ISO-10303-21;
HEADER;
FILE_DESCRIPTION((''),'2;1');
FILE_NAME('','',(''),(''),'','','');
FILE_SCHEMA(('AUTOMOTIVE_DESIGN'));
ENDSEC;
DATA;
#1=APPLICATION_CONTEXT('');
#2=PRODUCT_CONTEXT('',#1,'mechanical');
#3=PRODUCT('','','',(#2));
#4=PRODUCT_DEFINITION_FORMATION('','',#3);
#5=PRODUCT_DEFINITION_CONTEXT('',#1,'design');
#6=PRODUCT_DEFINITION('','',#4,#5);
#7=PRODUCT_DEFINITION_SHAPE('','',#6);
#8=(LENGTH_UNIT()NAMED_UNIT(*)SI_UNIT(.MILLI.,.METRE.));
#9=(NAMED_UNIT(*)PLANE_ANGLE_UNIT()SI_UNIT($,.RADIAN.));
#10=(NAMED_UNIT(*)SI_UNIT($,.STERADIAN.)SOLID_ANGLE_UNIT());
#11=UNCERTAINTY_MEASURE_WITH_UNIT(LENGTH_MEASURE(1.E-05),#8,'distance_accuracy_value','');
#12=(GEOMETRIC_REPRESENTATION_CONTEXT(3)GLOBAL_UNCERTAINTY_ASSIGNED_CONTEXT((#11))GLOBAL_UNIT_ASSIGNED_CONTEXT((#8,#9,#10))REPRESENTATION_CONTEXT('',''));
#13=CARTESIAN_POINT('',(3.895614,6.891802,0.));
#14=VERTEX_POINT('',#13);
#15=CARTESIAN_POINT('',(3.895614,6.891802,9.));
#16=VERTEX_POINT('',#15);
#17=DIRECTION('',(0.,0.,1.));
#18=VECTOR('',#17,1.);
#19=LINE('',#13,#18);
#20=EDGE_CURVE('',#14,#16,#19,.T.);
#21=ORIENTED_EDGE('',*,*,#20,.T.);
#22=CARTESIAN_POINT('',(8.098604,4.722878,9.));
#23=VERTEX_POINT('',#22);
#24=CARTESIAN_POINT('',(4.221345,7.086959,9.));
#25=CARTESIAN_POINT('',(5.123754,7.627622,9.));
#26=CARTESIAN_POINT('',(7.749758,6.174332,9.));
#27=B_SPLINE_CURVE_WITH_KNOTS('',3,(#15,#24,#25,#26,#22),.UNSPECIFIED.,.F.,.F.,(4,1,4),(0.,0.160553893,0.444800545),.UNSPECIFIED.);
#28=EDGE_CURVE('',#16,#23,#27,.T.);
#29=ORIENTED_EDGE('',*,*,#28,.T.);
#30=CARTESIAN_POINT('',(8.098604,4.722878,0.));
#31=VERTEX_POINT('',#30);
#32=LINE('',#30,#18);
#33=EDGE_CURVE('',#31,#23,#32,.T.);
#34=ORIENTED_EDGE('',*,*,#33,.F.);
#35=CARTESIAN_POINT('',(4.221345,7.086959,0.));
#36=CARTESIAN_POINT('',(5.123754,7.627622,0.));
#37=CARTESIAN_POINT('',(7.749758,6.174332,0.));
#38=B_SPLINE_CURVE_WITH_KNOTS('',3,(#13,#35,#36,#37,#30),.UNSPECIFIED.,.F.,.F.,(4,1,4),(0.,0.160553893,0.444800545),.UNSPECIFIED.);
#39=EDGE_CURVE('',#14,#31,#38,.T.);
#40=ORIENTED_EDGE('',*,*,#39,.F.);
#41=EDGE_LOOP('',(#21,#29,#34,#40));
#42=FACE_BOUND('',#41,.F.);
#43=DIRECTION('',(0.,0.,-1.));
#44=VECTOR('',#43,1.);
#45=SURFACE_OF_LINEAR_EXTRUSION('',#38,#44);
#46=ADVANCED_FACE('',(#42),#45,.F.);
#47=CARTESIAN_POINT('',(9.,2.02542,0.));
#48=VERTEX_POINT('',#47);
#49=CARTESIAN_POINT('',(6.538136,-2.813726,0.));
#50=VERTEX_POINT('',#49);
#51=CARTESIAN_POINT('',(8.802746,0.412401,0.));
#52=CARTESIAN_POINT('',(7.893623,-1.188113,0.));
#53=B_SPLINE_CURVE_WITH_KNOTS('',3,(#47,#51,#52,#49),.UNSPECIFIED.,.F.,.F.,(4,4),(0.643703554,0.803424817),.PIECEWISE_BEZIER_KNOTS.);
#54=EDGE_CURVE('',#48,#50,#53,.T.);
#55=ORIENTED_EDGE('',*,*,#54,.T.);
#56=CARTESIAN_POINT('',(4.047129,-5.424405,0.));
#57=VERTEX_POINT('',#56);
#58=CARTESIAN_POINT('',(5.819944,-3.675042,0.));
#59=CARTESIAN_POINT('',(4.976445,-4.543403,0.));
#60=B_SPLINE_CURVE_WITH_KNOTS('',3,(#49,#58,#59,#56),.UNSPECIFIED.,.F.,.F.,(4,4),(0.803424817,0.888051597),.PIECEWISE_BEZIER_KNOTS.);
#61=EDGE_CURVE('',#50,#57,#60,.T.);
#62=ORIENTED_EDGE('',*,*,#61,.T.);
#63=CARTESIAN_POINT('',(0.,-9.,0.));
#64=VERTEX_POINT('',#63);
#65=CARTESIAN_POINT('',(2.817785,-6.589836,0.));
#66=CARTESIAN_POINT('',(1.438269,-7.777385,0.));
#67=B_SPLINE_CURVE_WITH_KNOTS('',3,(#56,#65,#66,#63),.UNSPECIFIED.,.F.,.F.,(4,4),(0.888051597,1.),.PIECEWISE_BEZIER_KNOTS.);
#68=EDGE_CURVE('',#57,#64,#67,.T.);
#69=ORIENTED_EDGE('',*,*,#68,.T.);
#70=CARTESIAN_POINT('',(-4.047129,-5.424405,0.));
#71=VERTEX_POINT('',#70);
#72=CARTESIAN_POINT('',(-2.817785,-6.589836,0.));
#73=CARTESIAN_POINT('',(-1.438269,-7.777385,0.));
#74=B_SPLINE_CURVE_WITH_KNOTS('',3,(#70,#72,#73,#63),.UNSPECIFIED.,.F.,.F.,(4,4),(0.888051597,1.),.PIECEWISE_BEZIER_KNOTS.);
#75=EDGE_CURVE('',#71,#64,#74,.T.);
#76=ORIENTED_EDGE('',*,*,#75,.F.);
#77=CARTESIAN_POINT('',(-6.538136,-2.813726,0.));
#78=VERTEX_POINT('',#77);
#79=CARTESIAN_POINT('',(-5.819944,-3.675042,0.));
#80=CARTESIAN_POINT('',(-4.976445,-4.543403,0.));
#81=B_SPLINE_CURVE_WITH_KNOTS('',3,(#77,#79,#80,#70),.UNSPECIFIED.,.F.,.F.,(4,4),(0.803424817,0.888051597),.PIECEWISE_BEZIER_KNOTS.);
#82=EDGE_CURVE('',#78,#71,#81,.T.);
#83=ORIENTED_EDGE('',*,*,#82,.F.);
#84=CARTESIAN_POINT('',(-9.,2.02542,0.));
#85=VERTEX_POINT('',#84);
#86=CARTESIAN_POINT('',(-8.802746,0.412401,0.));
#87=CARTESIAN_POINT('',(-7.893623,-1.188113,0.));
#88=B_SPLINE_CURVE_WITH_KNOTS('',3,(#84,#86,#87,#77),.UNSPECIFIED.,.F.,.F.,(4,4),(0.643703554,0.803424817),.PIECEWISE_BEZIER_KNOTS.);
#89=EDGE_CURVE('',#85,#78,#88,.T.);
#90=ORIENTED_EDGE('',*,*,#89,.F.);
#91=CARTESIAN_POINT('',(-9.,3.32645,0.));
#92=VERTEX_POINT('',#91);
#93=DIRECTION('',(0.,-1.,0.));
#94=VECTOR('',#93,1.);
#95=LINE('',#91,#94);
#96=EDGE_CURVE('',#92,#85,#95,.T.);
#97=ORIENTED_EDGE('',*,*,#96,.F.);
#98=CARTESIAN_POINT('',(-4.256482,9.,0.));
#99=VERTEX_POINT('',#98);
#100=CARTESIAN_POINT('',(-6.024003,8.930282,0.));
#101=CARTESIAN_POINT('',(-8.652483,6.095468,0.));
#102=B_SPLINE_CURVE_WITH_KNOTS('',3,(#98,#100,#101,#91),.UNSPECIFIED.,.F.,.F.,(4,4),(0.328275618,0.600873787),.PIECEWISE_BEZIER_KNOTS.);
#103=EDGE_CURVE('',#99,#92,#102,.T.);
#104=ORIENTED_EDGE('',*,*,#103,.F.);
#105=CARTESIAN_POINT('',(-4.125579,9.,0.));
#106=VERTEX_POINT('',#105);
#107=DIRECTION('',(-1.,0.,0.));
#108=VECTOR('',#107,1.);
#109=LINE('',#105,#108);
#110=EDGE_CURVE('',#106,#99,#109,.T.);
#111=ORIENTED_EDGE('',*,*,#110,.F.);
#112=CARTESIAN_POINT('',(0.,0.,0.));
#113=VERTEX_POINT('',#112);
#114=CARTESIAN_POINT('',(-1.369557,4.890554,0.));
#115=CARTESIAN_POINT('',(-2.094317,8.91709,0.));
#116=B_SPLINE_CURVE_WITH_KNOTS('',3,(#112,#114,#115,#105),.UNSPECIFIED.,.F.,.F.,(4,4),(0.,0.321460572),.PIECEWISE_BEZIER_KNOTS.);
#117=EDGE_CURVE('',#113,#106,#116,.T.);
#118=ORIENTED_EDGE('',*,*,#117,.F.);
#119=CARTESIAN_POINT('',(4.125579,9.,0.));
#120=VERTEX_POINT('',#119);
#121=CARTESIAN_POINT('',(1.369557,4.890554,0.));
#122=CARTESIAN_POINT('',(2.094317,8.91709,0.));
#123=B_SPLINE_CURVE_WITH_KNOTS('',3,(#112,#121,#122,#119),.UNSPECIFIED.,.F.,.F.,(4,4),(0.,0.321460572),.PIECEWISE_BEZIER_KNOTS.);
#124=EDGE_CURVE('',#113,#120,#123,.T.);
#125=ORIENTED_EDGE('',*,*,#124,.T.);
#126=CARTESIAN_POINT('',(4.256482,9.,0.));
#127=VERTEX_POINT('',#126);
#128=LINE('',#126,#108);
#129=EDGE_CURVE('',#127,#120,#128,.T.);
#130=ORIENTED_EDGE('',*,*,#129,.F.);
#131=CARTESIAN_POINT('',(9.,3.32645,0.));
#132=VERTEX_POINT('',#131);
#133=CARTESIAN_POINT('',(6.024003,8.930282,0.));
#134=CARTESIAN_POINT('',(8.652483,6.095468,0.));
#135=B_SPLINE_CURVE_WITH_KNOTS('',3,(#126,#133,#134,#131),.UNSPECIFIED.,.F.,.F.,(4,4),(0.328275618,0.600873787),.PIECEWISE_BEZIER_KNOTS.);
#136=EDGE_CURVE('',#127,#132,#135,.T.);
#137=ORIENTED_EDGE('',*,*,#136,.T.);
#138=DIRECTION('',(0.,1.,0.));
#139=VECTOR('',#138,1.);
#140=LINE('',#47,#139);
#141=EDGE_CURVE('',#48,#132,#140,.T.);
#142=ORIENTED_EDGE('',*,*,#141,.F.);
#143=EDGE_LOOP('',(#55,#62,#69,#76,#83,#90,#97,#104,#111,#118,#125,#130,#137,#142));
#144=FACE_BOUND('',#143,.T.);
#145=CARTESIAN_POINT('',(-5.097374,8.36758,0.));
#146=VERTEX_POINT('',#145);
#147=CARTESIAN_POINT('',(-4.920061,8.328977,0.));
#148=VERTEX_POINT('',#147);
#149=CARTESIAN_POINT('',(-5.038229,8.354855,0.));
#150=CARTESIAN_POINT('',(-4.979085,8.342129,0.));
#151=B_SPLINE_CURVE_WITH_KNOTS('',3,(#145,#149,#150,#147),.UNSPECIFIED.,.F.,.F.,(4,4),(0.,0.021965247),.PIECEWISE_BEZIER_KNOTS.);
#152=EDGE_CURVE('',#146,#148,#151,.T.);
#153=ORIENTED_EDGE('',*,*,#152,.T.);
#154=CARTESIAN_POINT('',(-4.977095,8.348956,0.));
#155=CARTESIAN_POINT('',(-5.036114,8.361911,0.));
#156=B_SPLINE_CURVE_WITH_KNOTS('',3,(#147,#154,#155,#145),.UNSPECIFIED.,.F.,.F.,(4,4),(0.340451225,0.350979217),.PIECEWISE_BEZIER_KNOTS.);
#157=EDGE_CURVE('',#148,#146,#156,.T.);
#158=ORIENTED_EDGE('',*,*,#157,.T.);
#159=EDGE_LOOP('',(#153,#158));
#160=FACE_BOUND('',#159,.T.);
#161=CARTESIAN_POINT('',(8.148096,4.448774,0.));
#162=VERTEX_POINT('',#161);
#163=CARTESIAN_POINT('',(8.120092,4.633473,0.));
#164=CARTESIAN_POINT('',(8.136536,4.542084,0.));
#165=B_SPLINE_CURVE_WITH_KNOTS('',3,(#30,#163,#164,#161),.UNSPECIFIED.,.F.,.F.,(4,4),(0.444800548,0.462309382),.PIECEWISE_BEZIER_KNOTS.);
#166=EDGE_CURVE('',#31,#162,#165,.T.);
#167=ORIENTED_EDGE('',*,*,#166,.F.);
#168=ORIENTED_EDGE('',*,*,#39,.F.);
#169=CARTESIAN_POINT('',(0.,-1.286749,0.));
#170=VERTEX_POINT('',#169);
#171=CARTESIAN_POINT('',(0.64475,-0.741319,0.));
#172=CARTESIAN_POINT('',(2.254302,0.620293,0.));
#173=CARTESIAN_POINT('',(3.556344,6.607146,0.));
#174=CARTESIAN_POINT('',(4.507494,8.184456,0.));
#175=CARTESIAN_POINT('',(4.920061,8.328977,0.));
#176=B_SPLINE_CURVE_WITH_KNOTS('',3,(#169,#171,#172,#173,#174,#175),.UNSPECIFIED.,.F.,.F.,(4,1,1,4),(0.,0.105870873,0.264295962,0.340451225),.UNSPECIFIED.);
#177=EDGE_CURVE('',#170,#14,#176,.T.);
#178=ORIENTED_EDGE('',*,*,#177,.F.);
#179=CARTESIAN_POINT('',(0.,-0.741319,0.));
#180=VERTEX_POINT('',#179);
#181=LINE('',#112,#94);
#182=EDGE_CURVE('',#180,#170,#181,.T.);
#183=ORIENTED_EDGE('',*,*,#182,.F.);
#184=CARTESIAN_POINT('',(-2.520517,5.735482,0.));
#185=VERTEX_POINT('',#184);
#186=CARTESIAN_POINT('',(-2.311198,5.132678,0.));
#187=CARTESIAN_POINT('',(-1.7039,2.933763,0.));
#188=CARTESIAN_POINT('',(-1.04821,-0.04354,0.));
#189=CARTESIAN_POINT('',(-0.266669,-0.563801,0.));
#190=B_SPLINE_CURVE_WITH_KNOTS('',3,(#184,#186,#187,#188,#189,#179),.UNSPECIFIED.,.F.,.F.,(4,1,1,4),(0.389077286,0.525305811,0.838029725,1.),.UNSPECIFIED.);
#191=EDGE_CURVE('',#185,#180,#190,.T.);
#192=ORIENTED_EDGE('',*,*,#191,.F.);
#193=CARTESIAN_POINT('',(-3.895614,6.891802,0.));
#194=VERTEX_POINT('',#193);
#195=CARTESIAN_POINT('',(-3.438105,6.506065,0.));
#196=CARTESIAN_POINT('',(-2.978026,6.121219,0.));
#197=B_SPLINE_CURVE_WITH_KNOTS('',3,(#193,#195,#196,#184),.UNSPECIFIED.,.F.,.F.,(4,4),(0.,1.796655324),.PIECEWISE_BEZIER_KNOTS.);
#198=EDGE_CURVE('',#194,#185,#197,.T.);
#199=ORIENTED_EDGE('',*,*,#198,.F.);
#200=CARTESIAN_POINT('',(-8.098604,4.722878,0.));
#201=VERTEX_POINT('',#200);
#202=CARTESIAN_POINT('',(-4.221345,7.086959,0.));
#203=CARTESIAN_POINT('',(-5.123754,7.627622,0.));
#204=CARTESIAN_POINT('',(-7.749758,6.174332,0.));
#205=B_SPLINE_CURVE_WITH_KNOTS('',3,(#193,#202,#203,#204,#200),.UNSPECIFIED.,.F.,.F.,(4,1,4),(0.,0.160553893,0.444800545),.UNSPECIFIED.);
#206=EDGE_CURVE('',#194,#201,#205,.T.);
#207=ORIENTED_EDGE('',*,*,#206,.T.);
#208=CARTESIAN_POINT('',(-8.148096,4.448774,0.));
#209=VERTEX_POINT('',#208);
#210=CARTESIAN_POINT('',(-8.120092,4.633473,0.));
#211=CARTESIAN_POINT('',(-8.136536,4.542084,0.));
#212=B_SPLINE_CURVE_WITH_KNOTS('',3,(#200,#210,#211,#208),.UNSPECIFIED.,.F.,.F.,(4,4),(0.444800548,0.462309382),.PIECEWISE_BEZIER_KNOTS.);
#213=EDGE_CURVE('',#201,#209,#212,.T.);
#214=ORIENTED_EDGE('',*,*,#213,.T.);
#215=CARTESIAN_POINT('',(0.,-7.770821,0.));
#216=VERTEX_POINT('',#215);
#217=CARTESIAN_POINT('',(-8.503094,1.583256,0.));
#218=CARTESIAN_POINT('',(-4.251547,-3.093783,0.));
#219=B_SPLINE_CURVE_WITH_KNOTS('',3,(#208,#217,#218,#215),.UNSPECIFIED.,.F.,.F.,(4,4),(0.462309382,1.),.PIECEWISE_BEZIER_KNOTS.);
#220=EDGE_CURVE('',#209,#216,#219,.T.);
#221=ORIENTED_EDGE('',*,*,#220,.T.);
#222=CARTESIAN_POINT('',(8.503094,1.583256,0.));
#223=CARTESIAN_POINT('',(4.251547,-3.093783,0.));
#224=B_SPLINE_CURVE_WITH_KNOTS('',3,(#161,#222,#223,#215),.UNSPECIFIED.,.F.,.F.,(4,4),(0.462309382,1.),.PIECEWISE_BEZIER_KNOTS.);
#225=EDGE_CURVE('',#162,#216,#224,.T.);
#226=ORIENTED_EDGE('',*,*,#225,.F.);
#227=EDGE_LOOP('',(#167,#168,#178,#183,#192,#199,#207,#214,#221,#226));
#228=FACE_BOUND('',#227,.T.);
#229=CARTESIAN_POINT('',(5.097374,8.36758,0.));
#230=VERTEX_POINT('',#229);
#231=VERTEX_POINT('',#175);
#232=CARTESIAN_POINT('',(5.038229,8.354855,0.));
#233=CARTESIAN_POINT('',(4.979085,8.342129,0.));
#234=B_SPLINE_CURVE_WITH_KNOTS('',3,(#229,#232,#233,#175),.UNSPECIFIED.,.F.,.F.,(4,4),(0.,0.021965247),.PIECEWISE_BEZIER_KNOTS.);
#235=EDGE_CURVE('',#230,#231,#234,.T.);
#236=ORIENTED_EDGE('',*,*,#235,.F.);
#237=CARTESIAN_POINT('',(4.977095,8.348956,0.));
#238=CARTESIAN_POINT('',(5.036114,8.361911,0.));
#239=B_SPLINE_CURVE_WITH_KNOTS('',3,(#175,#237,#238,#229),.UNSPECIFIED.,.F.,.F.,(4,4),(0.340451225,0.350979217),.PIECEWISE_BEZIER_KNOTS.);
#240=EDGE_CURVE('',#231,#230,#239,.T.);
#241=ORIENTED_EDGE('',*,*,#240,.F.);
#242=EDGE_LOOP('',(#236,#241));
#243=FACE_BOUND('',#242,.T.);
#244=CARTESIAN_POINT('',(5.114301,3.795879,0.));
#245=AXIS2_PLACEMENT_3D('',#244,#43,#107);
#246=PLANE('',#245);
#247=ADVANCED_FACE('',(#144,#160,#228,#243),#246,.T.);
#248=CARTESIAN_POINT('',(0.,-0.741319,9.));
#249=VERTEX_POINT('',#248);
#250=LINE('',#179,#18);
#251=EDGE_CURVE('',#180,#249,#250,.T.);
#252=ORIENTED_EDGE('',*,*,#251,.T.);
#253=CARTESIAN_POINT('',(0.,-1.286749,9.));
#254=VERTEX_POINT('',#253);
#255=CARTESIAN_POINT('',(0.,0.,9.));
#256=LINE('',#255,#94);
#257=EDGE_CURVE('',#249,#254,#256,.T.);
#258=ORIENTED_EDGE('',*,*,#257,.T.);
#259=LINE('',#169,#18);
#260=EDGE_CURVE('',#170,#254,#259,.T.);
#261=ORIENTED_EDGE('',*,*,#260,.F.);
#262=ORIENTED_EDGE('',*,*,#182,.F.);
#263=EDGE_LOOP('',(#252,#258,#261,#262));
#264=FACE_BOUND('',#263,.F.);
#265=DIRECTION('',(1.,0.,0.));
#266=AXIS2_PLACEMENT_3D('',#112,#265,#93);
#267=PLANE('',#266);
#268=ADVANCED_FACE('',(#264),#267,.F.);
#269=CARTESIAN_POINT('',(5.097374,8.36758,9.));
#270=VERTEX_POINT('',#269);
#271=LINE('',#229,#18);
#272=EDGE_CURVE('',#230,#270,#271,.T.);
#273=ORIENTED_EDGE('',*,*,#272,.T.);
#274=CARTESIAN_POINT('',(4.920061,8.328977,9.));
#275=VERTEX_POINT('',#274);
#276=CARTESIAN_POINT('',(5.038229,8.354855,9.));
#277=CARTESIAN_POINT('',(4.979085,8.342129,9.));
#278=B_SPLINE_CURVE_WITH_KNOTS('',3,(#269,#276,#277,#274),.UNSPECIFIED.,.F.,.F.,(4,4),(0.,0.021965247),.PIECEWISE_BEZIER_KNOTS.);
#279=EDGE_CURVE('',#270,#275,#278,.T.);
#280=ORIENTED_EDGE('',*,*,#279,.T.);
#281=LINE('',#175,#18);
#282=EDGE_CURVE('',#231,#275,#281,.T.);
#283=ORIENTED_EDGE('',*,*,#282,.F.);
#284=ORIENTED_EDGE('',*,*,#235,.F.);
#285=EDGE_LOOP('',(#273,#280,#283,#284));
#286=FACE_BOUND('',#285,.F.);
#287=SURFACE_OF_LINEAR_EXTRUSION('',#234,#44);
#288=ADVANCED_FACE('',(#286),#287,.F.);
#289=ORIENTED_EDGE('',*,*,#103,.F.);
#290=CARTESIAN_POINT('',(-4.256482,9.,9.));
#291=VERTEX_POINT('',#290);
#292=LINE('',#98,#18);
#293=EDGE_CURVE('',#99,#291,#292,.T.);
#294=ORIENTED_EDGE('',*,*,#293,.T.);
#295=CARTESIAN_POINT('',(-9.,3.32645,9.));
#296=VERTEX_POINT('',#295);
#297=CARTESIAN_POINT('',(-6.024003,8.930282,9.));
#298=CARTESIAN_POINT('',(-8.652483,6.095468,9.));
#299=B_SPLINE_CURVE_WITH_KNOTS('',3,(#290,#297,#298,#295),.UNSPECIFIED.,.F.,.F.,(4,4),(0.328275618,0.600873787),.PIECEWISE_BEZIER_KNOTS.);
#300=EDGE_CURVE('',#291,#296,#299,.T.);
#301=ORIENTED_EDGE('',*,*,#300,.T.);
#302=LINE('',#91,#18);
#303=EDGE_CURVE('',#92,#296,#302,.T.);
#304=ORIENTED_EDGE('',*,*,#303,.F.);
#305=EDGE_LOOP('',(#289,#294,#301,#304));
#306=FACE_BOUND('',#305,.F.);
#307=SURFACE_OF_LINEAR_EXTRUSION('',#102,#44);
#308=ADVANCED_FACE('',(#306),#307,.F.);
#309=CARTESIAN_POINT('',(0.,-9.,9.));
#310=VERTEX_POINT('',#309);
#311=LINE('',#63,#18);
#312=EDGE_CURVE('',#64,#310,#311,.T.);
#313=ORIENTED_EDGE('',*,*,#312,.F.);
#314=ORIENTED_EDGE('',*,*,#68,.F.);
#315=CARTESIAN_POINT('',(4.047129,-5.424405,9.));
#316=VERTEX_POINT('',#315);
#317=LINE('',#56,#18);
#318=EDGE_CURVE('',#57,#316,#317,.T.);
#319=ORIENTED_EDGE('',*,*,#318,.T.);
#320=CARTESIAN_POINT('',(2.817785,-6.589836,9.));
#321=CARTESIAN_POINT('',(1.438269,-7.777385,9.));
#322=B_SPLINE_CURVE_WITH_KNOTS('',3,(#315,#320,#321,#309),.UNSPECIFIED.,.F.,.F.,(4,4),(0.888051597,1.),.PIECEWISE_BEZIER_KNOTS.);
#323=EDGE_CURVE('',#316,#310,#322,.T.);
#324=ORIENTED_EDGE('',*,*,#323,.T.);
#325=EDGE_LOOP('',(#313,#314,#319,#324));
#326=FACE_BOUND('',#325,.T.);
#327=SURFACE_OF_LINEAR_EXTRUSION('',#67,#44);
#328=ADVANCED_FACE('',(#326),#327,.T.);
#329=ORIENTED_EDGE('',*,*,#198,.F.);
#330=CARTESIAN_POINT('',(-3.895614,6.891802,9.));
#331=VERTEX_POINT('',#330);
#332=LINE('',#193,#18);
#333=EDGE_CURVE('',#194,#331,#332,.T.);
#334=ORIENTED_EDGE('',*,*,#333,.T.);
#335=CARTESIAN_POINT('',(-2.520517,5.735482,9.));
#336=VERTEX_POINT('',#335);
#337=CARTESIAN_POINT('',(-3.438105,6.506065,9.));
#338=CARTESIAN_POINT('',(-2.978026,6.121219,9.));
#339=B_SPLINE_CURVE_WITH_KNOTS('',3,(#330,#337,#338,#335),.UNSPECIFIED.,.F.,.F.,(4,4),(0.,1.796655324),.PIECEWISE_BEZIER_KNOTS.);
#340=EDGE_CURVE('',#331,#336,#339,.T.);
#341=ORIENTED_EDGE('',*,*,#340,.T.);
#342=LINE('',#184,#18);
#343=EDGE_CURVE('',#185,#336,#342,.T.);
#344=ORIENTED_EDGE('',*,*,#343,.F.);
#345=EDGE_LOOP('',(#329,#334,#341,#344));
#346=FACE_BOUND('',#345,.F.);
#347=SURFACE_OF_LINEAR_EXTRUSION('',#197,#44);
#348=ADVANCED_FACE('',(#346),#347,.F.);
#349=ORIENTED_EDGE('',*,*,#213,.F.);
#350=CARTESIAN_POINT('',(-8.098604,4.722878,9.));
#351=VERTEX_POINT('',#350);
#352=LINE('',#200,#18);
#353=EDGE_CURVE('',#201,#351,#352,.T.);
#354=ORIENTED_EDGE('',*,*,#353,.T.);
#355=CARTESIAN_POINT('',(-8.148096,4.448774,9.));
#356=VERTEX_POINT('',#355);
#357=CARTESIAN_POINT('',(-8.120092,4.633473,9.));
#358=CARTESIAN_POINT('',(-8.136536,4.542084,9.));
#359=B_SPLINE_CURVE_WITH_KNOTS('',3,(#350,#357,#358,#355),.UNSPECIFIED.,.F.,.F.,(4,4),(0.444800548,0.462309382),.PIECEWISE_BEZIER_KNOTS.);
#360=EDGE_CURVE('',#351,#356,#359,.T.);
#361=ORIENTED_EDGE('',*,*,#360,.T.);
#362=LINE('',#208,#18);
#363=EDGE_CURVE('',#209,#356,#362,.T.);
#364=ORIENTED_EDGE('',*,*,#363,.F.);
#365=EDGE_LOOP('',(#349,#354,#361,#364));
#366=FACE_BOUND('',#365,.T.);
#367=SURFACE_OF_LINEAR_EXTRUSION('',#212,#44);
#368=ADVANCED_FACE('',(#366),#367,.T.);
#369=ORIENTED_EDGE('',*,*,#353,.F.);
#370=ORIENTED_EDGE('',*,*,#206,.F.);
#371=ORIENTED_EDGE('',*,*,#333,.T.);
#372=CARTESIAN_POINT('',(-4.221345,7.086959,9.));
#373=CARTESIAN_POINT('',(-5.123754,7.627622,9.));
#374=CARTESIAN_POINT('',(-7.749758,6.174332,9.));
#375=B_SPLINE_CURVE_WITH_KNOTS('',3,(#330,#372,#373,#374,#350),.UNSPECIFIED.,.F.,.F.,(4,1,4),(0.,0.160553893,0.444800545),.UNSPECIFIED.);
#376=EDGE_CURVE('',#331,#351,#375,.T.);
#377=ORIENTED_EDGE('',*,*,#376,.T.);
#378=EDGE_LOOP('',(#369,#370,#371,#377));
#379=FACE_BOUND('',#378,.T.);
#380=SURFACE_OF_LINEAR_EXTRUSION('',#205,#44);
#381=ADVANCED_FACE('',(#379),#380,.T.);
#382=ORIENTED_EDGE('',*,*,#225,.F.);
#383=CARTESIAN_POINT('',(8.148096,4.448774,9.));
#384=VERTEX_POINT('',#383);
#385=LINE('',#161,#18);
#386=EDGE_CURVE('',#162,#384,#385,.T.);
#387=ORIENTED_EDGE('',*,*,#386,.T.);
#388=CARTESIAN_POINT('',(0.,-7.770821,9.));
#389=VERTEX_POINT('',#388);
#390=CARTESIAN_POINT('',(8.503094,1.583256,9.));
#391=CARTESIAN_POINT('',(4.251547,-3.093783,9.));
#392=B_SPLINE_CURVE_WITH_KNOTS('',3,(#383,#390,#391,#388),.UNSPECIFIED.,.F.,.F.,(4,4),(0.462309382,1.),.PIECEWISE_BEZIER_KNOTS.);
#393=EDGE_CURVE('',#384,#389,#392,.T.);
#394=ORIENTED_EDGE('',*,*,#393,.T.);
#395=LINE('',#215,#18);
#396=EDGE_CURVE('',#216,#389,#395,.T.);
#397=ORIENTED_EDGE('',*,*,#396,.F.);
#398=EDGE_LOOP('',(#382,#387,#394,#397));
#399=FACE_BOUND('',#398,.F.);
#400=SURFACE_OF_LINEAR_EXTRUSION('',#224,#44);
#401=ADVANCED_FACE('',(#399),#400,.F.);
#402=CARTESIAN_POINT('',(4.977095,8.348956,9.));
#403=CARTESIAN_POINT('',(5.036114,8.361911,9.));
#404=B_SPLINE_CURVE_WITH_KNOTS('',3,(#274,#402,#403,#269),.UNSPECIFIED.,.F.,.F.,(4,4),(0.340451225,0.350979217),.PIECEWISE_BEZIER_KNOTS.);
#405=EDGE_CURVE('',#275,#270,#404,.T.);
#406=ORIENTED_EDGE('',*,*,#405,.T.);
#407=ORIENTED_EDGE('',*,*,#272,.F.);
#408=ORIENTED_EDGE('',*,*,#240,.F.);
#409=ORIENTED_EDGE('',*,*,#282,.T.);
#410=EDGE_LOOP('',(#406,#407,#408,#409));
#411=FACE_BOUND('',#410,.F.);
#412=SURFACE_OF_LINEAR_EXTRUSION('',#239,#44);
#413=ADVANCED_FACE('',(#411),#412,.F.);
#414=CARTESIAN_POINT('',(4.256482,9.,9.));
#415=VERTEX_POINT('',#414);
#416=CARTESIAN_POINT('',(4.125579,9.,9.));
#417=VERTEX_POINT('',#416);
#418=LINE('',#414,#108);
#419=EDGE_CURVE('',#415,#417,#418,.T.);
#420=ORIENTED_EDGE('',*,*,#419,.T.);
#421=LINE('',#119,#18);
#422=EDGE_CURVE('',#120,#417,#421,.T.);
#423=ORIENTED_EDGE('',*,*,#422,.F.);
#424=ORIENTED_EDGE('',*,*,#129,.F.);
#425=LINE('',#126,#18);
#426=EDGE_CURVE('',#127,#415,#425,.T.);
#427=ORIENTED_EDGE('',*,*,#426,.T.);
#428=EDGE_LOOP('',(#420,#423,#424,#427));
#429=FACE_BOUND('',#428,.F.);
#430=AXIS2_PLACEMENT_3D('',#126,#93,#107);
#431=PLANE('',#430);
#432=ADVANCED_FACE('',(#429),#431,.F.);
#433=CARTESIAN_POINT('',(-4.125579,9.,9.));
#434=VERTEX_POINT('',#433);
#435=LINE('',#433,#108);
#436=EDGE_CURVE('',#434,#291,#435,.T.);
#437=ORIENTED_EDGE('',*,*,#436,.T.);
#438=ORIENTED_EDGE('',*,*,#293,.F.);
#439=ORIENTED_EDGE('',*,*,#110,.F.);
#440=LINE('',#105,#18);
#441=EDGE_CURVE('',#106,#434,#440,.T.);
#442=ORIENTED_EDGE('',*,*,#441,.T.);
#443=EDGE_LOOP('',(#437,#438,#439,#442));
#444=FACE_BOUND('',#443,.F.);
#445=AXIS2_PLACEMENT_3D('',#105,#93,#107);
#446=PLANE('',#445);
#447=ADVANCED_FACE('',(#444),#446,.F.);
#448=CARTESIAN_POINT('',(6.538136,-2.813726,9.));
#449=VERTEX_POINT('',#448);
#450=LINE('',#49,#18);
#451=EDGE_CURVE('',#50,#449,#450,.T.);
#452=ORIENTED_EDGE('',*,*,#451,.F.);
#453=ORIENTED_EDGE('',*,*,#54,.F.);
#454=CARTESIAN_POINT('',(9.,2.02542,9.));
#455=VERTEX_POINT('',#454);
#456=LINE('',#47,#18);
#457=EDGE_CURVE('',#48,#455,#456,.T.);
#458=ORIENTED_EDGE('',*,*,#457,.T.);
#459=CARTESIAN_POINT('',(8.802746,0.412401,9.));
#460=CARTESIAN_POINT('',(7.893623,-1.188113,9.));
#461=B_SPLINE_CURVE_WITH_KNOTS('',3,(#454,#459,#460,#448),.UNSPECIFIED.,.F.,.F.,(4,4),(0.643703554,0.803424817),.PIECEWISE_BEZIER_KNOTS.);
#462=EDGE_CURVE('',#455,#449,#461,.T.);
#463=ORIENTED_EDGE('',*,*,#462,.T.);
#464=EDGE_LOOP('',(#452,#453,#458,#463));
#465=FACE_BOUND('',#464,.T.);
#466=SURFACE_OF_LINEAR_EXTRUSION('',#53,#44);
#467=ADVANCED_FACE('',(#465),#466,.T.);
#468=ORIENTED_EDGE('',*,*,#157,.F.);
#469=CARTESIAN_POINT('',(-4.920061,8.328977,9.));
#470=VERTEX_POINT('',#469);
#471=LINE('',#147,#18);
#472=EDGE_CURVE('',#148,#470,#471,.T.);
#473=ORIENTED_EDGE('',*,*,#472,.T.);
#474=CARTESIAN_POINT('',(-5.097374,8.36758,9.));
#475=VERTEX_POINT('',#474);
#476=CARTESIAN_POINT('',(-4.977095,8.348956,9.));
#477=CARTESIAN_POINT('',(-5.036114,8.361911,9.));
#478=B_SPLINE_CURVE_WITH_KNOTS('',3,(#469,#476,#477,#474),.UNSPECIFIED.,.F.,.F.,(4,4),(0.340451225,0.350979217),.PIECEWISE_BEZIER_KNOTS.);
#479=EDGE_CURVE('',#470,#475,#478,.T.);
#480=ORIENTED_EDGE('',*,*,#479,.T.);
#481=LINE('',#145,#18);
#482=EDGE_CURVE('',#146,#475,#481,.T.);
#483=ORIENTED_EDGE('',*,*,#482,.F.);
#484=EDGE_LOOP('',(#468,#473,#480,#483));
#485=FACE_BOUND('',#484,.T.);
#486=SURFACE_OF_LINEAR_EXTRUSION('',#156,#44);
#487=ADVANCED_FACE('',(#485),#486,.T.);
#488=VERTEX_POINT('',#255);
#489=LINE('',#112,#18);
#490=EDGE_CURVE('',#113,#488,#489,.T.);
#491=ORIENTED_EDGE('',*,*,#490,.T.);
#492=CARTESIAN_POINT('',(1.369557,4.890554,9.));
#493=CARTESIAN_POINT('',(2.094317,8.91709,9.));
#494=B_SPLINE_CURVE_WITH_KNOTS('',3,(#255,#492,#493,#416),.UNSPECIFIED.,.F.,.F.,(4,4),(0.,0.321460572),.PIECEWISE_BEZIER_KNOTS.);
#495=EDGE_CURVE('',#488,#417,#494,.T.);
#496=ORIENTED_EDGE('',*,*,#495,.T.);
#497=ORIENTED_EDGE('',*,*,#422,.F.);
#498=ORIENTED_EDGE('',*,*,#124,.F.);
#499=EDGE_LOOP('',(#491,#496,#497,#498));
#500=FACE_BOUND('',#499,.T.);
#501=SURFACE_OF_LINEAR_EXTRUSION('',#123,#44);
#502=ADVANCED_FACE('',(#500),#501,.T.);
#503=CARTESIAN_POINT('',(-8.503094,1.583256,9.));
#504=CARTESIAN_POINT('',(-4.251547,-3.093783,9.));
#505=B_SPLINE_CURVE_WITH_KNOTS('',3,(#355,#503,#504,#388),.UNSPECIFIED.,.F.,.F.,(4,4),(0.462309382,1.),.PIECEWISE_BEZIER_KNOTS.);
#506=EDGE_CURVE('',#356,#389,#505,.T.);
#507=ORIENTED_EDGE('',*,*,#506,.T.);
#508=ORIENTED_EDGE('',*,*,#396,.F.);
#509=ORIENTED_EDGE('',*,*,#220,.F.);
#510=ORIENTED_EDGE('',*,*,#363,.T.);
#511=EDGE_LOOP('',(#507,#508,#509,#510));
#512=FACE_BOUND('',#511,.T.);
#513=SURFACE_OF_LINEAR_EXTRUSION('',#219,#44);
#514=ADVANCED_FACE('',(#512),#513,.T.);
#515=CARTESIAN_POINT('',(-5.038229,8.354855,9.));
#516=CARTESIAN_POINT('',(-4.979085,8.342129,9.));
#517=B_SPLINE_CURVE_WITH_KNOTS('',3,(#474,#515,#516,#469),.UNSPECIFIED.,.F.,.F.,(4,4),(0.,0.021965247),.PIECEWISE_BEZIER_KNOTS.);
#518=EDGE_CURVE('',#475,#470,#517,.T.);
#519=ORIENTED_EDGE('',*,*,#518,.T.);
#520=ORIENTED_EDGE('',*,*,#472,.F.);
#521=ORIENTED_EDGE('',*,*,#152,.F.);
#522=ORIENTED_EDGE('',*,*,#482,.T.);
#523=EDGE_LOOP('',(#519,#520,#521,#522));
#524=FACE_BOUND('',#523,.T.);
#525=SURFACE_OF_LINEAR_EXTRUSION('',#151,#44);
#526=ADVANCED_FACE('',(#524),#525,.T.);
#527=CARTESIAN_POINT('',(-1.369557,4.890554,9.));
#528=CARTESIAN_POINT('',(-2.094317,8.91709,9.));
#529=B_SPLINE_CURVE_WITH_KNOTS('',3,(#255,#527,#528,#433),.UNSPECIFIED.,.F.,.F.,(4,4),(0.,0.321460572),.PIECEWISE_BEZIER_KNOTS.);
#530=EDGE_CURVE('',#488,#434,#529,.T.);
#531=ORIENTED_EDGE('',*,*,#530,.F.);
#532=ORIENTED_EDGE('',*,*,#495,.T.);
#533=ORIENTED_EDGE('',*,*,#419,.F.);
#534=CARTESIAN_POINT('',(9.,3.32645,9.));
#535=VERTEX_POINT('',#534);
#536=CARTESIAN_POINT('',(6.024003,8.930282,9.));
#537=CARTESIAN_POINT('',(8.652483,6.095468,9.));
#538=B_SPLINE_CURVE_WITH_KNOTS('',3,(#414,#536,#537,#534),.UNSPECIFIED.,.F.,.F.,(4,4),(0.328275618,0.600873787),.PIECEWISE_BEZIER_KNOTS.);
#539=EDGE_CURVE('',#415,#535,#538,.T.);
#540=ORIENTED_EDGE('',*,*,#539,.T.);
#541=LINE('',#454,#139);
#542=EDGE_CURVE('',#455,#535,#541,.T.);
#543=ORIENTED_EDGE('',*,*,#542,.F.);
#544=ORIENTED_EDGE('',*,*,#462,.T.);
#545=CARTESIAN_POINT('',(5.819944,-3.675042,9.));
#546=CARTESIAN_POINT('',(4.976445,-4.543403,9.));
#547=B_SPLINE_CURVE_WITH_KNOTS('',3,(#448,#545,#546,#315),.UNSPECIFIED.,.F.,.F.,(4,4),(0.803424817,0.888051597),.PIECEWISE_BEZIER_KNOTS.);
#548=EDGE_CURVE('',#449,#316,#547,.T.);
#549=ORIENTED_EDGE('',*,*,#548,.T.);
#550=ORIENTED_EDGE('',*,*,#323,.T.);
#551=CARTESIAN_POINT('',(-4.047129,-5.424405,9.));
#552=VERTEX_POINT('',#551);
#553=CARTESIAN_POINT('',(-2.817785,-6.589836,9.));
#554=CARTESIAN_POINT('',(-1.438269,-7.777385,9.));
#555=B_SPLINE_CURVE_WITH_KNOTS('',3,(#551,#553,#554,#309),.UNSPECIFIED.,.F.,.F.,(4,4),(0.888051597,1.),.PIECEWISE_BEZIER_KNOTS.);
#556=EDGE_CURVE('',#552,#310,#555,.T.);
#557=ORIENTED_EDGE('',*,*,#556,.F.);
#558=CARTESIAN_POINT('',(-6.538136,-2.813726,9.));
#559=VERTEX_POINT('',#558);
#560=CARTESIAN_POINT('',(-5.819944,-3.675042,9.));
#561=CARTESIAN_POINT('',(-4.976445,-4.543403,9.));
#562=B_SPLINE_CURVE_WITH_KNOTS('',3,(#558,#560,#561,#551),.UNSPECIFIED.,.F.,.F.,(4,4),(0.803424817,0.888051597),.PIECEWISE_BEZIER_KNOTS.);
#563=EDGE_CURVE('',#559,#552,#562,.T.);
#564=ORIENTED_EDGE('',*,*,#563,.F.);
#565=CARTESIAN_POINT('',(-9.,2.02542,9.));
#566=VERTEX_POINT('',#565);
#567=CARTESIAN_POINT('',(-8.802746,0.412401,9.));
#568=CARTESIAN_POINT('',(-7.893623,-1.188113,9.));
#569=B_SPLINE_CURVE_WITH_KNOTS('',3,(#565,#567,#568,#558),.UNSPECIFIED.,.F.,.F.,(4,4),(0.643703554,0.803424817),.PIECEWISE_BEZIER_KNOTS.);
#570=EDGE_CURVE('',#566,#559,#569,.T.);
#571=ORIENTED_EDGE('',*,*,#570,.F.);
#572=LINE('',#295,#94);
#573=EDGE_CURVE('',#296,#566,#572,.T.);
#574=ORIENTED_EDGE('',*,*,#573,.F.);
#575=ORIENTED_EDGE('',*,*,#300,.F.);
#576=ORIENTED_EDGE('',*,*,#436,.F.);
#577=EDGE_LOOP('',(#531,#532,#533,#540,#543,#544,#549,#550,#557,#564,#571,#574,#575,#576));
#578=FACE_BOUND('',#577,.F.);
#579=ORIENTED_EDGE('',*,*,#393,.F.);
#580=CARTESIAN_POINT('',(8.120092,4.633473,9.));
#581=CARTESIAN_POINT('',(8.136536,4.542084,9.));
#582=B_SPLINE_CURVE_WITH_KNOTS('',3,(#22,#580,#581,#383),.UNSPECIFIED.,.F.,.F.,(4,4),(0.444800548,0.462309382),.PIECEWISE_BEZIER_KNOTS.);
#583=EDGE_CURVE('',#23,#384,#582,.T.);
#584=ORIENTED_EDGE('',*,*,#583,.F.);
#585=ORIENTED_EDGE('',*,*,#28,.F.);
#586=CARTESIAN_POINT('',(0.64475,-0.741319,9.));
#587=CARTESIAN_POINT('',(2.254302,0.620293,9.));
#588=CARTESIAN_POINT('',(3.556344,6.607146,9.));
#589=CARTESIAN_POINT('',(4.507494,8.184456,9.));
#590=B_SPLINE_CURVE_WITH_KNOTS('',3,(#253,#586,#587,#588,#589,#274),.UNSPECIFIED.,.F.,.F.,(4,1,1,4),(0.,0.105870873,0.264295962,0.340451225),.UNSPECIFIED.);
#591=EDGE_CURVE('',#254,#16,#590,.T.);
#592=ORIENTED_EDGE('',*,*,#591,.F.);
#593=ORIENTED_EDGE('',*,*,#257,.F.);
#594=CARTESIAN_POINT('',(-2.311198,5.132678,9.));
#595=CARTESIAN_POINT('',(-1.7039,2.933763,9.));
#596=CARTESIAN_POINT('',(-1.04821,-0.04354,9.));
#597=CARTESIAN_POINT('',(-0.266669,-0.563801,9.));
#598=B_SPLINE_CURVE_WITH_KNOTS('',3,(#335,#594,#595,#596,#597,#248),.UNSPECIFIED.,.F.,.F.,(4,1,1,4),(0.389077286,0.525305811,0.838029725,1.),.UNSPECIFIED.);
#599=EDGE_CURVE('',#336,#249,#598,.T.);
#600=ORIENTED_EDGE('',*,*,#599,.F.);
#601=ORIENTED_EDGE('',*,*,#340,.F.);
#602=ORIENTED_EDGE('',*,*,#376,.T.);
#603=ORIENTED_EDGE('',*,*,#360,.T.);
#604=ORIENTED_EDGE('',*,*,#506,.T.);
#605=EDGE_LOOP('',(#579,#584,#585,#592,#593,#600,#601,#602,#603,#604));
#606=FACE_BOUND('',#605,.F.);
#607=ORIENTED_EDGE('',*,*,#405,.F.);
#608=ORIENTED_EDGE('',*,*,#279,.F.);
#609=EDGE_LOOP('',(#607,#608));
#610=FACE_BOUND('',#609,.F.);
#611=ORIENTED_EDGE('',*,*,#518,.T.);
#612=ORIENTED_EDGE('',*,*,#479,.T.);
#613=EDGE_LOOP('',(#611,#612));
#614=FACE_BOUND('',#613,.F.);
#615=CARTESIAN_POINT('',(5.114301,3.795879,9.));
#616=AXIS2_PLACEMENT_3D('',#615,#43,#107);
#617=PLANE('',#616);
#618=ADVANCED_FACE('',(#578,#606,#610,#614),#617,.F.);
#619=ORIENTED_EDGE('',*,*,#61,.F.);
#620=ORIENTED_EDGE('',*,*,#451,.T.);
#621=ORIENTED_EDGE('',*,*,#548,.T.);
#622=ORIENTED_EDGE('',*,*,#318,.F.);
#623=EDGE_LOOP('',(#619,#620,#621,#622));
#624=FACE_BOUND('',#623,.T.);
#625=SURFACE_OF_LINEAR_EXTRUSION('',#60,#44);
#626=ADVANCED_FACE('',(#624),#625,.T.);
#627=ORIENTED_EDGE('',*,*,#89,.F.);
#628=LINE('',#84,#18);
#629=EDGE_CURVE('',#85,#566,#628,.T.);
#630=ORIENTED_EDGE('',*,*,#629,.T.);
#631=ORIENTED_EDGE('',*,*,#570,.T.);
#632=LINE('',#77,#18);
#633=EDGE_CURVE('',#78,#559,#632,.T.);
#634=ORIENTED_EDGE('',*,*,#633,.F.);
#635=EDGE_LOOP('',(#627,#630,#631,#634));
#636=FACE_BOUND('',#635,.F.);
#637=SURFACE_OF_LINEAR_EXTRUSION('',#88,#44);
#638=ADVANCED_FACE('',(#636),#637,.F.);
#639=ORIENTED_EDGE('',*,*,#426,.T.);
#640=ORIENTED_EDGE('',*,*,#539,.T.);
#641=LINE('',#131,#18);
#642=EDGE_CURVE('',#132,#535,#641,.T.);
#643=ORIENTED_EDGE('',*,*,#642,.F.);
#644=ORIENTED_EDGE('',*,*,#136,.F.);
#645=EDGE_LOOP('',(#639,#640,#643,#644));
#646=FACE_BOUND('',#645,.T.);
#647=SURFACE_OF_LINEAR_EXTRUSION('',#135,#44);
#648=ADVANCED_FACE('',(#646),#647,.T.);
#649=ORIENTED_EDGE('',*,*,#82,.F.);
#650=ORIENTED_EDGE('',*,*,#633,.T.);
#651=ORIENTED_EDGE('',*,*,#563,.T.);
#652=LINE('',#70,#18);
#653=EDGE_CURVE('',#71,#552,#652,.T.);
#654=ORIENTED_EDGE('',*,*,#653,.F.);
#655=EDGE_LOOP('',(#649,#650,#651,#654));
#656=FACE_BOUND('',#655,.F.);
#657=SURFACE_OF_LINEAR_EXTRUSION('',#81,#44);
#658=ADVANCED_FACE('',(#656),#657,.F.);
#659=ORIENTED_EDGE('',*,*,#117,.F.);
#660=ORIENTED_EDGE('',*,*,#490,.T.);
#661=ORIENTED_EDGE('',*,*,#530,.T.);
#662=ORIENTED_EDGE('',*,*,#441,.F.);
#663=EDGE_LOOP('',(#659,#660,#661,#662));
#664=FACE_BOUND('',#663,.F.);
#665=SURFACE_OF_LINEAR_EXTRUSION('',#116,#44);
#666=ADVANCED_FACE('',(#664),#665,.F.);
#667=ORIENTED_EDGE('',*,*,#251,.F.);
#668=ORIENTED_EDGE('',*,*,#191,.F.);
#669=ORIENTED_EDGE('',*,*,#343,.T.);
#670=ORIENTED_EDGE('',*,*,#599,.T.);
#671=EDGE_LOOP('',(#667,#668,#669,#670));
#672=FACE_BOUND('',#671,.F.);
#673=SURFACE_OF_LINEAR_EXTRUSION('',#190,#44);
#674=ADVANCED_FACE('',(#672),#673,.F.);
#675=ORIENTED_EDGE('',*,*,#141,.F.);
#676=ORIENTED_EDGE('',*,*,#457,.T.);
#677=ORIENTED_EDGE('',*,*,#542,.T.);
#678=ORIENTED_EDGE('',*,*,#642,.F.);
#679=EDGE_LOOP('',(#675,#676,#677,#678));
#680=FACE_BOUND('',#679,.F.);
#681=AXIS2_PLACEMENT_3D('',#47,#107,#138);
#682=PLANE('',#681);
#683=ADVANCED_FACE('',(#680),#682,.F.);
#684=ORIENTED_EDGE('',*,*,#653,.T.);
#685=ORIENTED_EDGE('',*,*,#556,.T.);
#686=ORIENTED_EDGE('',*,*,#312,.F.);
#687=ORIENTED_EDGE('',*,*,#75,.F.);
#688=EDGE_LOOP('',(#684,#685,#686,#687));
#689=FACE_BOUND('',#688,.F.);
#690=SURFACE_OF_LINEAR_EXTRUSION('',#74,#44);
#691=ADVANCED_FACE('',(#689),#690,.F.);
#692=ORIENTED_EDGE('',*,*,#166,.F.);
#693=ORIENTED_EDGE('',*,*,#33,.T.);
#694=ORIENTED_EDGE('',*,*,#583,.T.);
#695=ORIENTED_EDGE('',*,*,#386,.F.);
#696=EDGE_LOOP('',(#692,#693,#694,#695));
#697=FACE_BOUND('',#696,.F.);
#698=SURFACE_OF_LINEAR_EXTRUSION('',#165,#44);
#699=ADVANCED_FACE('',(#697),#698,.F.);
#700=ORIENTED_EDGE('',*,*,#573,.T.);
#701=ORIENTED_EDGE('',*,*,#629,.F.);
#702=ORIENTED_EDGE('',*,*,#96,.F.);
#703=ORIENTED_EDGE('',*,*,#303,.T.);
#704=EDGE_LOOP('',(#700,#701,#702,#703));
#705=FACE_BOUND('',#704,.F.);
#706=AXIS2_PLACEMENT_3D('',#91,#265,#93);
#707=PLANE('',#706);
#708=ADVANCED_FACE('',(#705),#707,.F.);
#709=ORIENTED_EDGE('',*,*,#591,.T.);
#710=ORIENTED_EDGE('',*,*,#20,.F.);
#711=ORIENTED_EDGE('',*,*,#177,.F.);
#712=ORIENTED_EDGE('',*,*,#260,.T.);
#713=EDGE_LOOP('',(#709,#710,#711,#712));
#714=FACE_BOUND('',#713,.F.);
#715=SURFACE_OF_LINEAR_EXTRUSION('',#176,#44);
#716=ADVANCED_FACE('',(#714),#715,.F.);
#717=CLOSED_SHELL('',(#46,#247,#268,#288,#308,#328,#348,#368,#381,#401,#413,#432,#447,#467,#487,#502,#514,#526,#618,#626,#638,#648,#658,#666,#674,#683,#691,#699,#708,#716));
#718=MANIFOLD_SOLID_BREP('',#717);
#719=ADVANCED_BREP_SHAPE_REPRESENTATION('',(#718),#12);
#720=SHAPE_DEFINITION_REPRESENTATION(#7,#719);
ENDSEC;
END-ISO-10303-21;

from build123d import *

# Parameters (mm, degrees)
F1_DEPTH = 9
F2_DEPTH = 9


with BuildPart() as f1:
    # F0 (on Top) → F1 (new body)
    with BuildSketch(Plane.XY):
        with BuildLine():
            Line((0, -0.7413188443), (0, 0))
            add(Edge.make_bspline(
                [(0, 0), (-1.3695573068, 4.8905538115), (-2.0943165887, 8.9170896379), (-4.1255794242, 9)],
                knots=[0, 0, 0, 0, 0.3214605719, 0.3214605719, 0.3214605719, 0.3214605719], degree=3))
            Line((-4.1255794242, 9), (-4.2564818249, 9))
            add(Edge.make_bspline(
                [(-4.2564818249, 9), (-6.0240025483, 8.9302818998), (-8.6524833172, 6.0954684063), (-9, 3.3264504746)],
                knots=[0.3282756179, 0.3282756179, 0.3282756179, 0.3282756179, 0.6008737875, 0.6008737875, 0.6008737875, 0.6008737875], degree=3))
            Line((-9, 3.3264504746), (-9, 2.0254198861))
            add(Edge.make_bspline(
                [(-9, 2.0254198861), (-8.8027461578, 0.4124014883), (-7.8936230463, -1.1881125431), (-6.5381361873, -2.8137259055)],
                knots=[0.643703554, 0.643703554, 0.643703554, 0.643703554, 0.8034248169, 0.8034248169, 0.8034248169, 0.8034248169], degree=3))
            add(Edge.make_bspline(
                [(-7.0166951045, 7.2174789384), (-7.8491774617, 6.3542855977), (-9.3849521871, 3.9558156461), (-8.6108826872, 0.0318026512), (-6.9725173385, -2.272586495), (-6.5381361873, -2.8137259055)],
                knots=[0.4449683799, 0.4449683799, 0.4449683799, 0.4449683799, 0.5659455054, 0.7097029057, 0.7555145045, 0.7555145045, 0.7555145045, 0.7555145045], degree=3))
            add(Edge.make_bspline(
                [(-5.09737432, 8.3675803617), (-5.6442828481, 8.4181907516), (-6.369925564, 7.8881083584), (-7.0166951045, 7.2174789384)],
                knots=[0.3509792171, 0.3509792171, 0.3509792171, 0.3509792171, 0.4449683799, 0.4449683799, 0.4449683799, 0.4449683799], degree=3))
            add(Edge.make_bspline(
                [(-4.9200605163, 8.3289773014), (-4.9770953319, 8.3489564565), (-5.0361135483, 8.3619113487), (-5.09737432, 8.3675803617)],
                knots=[0.340451225, 0.340451225, 0.340451225, 0.340451225, 0.3509792171, 0.3509792171, 0.3509792171, 0.3509792171], degree=3))
            add(Edge.make_bspline(
                [(-4.9200605163, 8.3289773014), (-4.4286259103, 8.2194748549), (-3.4589288417, 7.9403428532), (-2.8035900144, 6.5506876616), (-2.5205168272, 5.7354818302)],
                knots=[0.0219652467, 0.0219652467, 0.0219652467, 0.0219652467, 0.2048477067, 0.3890772859, 0.3890772859, 0.3890772859, 0.3890772859], degree=3))
            add(Edge.make_bspline(
                [(-2.5205168272, 5.7354818302), (-2.3111984159, 5.1326780419), (-1.7039003011, 2.9337634373), (-1.0482096873, -0.0435395693), (-0.2666692877, -0.5638009877), (0, -0.7413188443)],
                knots=[0.3890772859, 0.3890772859, 0.3890772859, 0.3890772859, 0.5253058113, 0.8380297251, 1, 1, 1, 1], degree=3))
        make_face()
        with BuildLine():
            add(Edge.make_bspline(
                [(-3.8956142962, 6.891802419), (-3.4381051858, 6.5060647515), (-2.9780259376, 6.1212194977), (-2.5205168272, 5.7354818302)],
                knots=[0, 0, 0, 0, 1.796655324, 1.796655324, 1.796655324, 1.796655324], degree=3))
            add(Edge.make_bspline(
                [(-4.9200605163, 8.3289773014), (-4.4286259103, 8.2194748549), (-3.4589288417, 7.9403428532), (-2.8035900144, 6.5506876616), (-2.5205168272, 5.7354818302)],
                knots=[0.0219652467, 0.0219652467, 0.0219652467, 0.0219652467, 0.2048477067, 0.3890772859, 0.3890772859, 0.3890772859, 0.3890772859], degree=3))
            add(Edge.make_bspline(
                [(-3.8956142962, 6.891802419), (-4.1987079785, 7.6723908012), (-4.5074935852, 8.1844561238), (-4.9200605163, 8.3289773014)],
                knots=[0.2642959622, 0.2642959622, 0.2642959622, 0.2642959622, 0.340451225, 0.340451225, 0.340451225, 0.340451225], degree=3))
        make_face()
        with BuildLine():
            add(Edge.make_bspline(
                [(-3.8956142962, 6.891802419), (-4.2213452753, 7.0869586014), (-5.1237543979, 7.6276218222), (-7.7497584624, 6.1743324677), (-8.0986041576, 4.7228783369)],
                knots=[0, 0, 0, 0, 0.1605538932, 0.4448005452, 0.4448005452, 0.4448005452, 0.4448005452], degree=3))
            add(Edge.make_bspline(
                [(-3.8956142962, 6.891802419), (-4.1987079785, 7.6723908012), (-4.5074935852, 8.1844561238), (-4.9200605163, 8.3289773014)],
                knots=[0.2642959622, 0.2642959622, 0.2642959622, 0.2642959622, 0.340451225, 0.340451225, 0.340451225, 0.340451225], degree=3))
            add(Edge.make_bspline(
                [(-5.09737432, 8.3675803617), (-5.0382294946, 8.3548547711), (-4.9790846696, 8.3421291819), (-4.9200605163, 8.3289773014)],
                knots=[0, 0, 0, 0, 0.0219652467, 0.0219652467, 0.0219652467, 0.0219652467], degree=3))
            add(Edge.make_bspline(
                [(-5.09737432, 8.3675803617), (-5.6442828481, 8.4181907516), (-6.369925564, 7.8881083584), (-7.0166951045, 7.2174789384)],
                knots=[0.3509792171, 0.3509792171, 0.3509792171, 0.3509792171, 0.4449683799, 0.4449683799, 0.4449683799, 0.4449683799], degree=3))
            add(Edge.make_bspline(
                [(-7.0166951045, 7.2174789384), (-7.4551353354, 6.468842273), (-7.8935756458, 5.7202055859), (-8.0986041576, 4.7228783369)],
                knots=[0, 0, 0, 0, 0.2568105942, 0.2568105942, 0.2568105942, 0.2568105942], degree=3))
        make_face()
        with BuildLine():
            add(Edge.make_bspline(
                [(-6.5381361873, -2.8137259055), (-5.8199444715, -3.6750415592), (-4.976444676, -4.5434033696), (-4.0471287706, -5.424404607)],
                knots=[0.8034248169, 0.8034248169, 0.8034248169, 0.8034248169, 0.8880515967, 0.8880515967, 0.8880515967, 0.8880515967], degree=3))
            add(Edge.make_bspline(
                [(-8.1480962796, 4.4487735667), (-8.3487195408, 3.1674182287), (-7.9933424316, -0.4652337496), (-5.465399807, -3.6634353226), (-4.0471287706, -5.424404607)],
                knots=[0.2798373043, 0.2798373043, 0.2798373043, 0.2798373043, 0.5962275969, 0.9861211234, 0.9861211234, 0.9861211234, 0.9861211234], degree=3))
            add(Edge.make_bspline(
                [(-8.0986041689, 4.7228782896), (-8.1200921294, 4.6334725946), (-8.136536481, 4.5420835041), (-8.1480962796, 4.4487735667)],
                knots=[0.4448005483, 0.4448005483, 0.4448005483, 0.4448005483, 0.4623093822, 0.4623093822, 0.4623093822, 0.4623093822], degree=3))
            add(Edge.make_bspline(
                [(-7.0166951045, 7.2174789384), (-7.4551353354, 6.468842273), (-7.8935756458, 5.7202055859), (-8.0986041576, 4.7228783369)],
                knots=[0, 0, 0, 0, 0.2568105942, 0.2568105942, 0.2568105942, 0.2568105942], degree=3))
            add(Edge.make_bspline(
                [(-7.0166951045, 7.2174789384), (-7.8491774617, 6.3542855977), (-9.3849521871, 3.9558156461), (-8.6108826872, 0.0318026512), (-6.9725173385, -2.272586495), (-6.5381361873, -2.8137259055)],
                knots=[0.4449683799, 0.4449683799, 0.4449683799, 0.4449683799, 0.5659455054, 0.7097029057, 0.7555145045, 0.7555145045, 0.7555145045, 0.7555145045], degree=3))
        make_face()
        with BuildLine():
            add(Edge.make_bspline(
                [(-4.0471287706, -5.424404607), (-2.8177846774, -6.5898357171), (-1.4382685717, -7.7773849141), (0, -9)],
                knots=[0.8880515967, 0.8880515967, 0.8880515967, 0.8880515967, 1, 1, 1, 1], degree=3))
            Line((0, -9), (0, -7.7708214521))
            add(Edge.make_bspline(
                [(-8.1480962796, 4.4487735667), (-8.503093949, 1.5832556149), (-4.2515467883, -3.0937826707), (0, -7.7708214521)],
                knots=[0.4623093822, 0.4623093822, 0.4623093822, 0.4623093822, 1, 1, 1, 1], degree=3))
            add(Edge.make_bspline(
                [(-8.1480962796, 4.4487735667), (-8.3487195408, 3.1674182287), (-7.9933424316, -0.4652337496), (-5.465399807, -3.6634353226), (-4.0471287706, -5.424404607)],
                knots=[0.2798373043, 0.2798373043, 0.2798373043, 0.2798373043, 0.5962275969, 0.9861211234, 0.9861211234, 0.9861211234, 0.9861211234], degree=3))
        make_face()
    extrude(amount=F1_DEPTH)

    # F0 (on Top) → F2 (join)
    with BuildSketch(Plane.XY):
        with BuildLine():
            add(Edge.make_bspline(
                [(4.2564818249, 9), (6.0240025483, 8.9302818998), (8.6524833172, 6.0954684063), (9, 3.3264504746)],
                knots=[0.3282756179, 0.3282756179, 0.3282756179, 0.3282756179, 0.6008737875, 0.6008737875, 0.6008737875, 0.6008737875], degree=3))
            Line((4.2564818249, 9), (4.1255794242, 9))
            add(Edge.make_bspline(
                [(0, 0), (1.3695573068, 4.8905538115), (2.0943165887, 8.9170896379), (4.1255794242, 9)],
                knots=[0, 0, 0, 0, 0.3214605719, 0.3214605719, 0.3214605719, 0.3214605719], degree=3))
            Line((0, 0), (0, -0.7413188443))
            add(Edge.make_bspline(
                [(2.5205168272, 5.7354818302), (2.3111984159, 5.1326780419), (1.7039003011, 2.9337634373), (1.0482096873, -0.0435395693), (0.2666692877, -0.5638009877), (0, -0.7413188443)],
                knots=[0.3890772859, 0.3890772859, 0.3890772859, 0.3890772859, 0.5253058113, 0.8380297251, 1, 1, 1, 1], degree=3))
            add(Edge.make_bspline(
                [(4.9200605163, 8.3289773014), (4.4286259103, 8.2194748549), (3.4589288417, 7.9403428532), (2.8035900144, 6.5506876616), (2.5205168272, 5.7354818302)],
                knots=[0.0219652467, 0.0219652467, 0.0219652467, 0.0219652467, 0.2048477067, 0.3890772859, 0.3890772859, 0.3890772859, 0.3890772859], degree=3))
            add(Edge.make_bspline(
                [(4.9200605163, 8.3289773014), (4.9770953319, 8.3489564565), (5.0361135483, 8.3619113487), (5.09737432, 8.3675803617)],
                knots=[0.340451225, 0.340451225, 0.340451225, 0.340451225, 0.3509792171, 0.3509792171, 0.3509792171, 0.3509792171], degree=3))
            add(Edge.make_bspline(
                [(5.09737432, 8.3675803617), (5.6442828481, 8.4181907516), (6.369925564, 7.8881083584), (7.0166951045, 7.2174789384)],
                knots=[0.3509792171, 0.3509792171, 0.3509792171, 0.3509792171, 0.4449683799, 0.4449683799, 0.4449683799, 0.4449683799], degree=3))
            add(Edge.make_bspline(
                [(7.0166951045, 7.2174789384), (7.8491774617, 6.3542855977), (9.3849521871, 3.9558156461), (8.6108826872, 0.0318026512), (6.9725173385, -2.272586495), (6.5381361873, -2.8137259055)],
                knots=[0.4449683799, 0.4449683799, 0.4449683799, 0.4449683799, 0.5659455054, 0.7097029057, 0.7555145045, 0.7555145045, 0.7555145045, 0.7555145045], degree=3))
            add(Edge.make_bspline(
                [(9, 2.0254198861), (8.8027461578, 0.4124014883), (7.8936230463, -1.1881125431), (6.5381361873, -2.8137259055)],
                knots=[0.643703554, 0.643703554, 0.643703554, 0.643703554, 0.8034248169, 0.8034248169, 0.8034248169, 0.8034248169], degree=3))
            Line((9, 2.0254198861), (9, 3.3264504746))
        make_face()
        with BuildLine():
            add(Edge.make_bspline(
                [(2.5205168272, 5.7354818302), (2.3111984159, 5.1326780419), (1.7039003011, 2.9337634373), (1.0482096873, -0.0435395693), (0.2666692877, -0.5638009877), (0, -0.7413188443)],
                knots=[0.3890772859, 0.3890772859, 0.3890772859, 0.3890772859, 0.5253058113, 0.8380297251, 1, 1, 1, 1], degree=3))
            Line((0, -0.7413188443), (0, -1.2867490295))
            add(Edge.make_bspline(
                [(0, -1.2867490295), (0.6447495044, -0.7413188443), (2.2543017403, 0.6202928221), (3.2650913115, 5.2679516253), (3.8956142962, 6.891802419)],
                knots=[0, 0, 0, 0, 0.105870873, 0.2642959622, 0.2642959622, 0.2642959622, 0.2642959622], degree=3))
            add(Edge.make_bspline(
                [(3.8956142962, 6.891802419), (3.4381051858, 6.5060647515), (2.9780259376, 6.1212194977), (2.5205168272, 5.7354818302)],
                knots=[0, 0, 0, 0, 1.796655324, 1.796655324, 1.796655324, 1.796655324], degree=3))
        make_face()
        with BuildLine():
            add(Edge.make_bspline(
                [(6.5381361873, -2.8137259055), (5.8199444715, -3.6750415592), (4.976444676, -4.5434033696), (4.0471287706, -5.424404607)],
                knots=[0.8034248169, 0.8034248169, 0.8034248169, 0.8034248169, 0.8880515967, 0.8880515967, 0.8880515967, 0.8880515967], degree=3))
            add(Edge.make_bspline(
                [(7.0166951045, 7.2174789384), (7.8491774617, 6.3542855977), (9.3849521871, 3.9558156461), (8.6108826872, 0.0318026512), (6.9725173385, -2.272586495), (6.5381361873, -2.8137259055)],
                knots=[0.4449683799, 0.4449683799, 0.4449683799, 0.4449683799, 0.5659455054, 0.7097029057, 0.7555145045, 0.7555145045, 0.7555145045, 0.7555145045], degree=3))
            add(Edge.make_bspline(
                [(7.0166951045, 7.2174789384), (7.4551353354, 6.468842273), (7.8935756458, 5.7202055859), (8.0986041576, 4.7228783369)],
                knots=[0, 0, 0, 0, 0.2568105942, 0.2568105942, 0.2568105942, 0.2568105942], degree=3))
            add(Edge.make_bspline(
                [(8.0986041689, 4.7228782896), (8.1200921294, 4.6334725946), (8.136536481, 4.5420835041), (8.1480962796, 4.4487735667)],
                knots=[0.4448005483, 0.4448005483, 0.4448005483, 0.4448005483, 0.4623093822, 0.4623093822, 0.4623093822, 0.4623093822], degree=3))
            add(Edge.make_bspline(
                [(8.1480962796, 4.4487735667), (8.3487195408, 3.1674182287), (7.9933424316, -0.4652337496), (5.465399807, -3.6634353226), (4.0471287706, -5.424404607)],
                knots=[0.2798373043, 0.2798373043, 0.2798373043, 0.2798373043, 0.5962275969, 0.9861211234, 0.9861211234, 0.9861211234, 0.9861211234], degree=3))
        make_face()
        with BuildLine():
            add(Edge.make_bspline(
                [(4.0471287706, -5.424404607), (2.8177846774, -6.5898357171), (1.4382685717, -7.7773849141), (0, -9)],
                knots=[0.8880515967, 0.8880515967, 0.8880515967, 0.8880515967, 1, 1, 1, 1], degree=3))
            add(Edge.make_bspline(
                [(8.1480962796, 4.4487735667), (8.3487195408, 3.1674182287), (7.9933424316, -0.4652337496), (5.465399807, -3.6634353226), (4.0471287706, -5.424404607)],
                knots=[0.2798373043, 0.2798373043, 0.2798373043, 0.2798373043, 0.5962275969, 0.9861211234, 0.9861211234, 0.9861211234, 0.9861211234], degree=3))
            add(Edge.make_bspline(
                [(8.1480962796, 4.4487735667), (8.503093949, 1.5832556149), (4.2515467883, -3.0937826707), (0, -7.7708214521)],
                knots=[0.4623093822, 0.4623093822, 0.4623093822, 0.4623093822, 1, 1, 1, 1], degree=3))
            Line((0, -7.7708214521), (0, -9))
        make_face()
        with BuildLine():
            add(Edge.make_bspline(
                [(4.9200605163, 8.3289773014), (4.4286259103, 8.2194748549), (3.4589288417, 7.9403428532), (2.8035900144, 6.5506876616), (2.5205168272, 5.7354818302)],
                knots=[0.0219652467, 0.0219652467, 0.0219652467, 0.0219652467, 0.2048477067, 0.3890772859, 0.3890772859, 0.3890772859, 0.3890772859], degree=3))
            add(Edge.make_bspline(
                [(3.8956142962, 6.891802419), (3.4381051858, 6.5060647515), (2.9780259376, 6.1212194977), (2.5205168272, 5.7354818302)],
                knots=[0, 0, 0, 0, 1.796655324, 1.796655324, 1.796655324, 1.796655324], degree=3))
            add(Edge.make_bspline(
                [(3.8956142962, 6.891802419), (4.1987079785, 7.6723908012), (4.5074935852, 8.1844561238), (4.9200605163, 8.3289773014)],
                knots=[0.2642959622, 0.2642959622, 0.2642959622, 0.2642959622, 0.340451225, 0.340451225, 0.340451225, 0.340451225], degree=3))
        make_face()
        with BuildLine():
            add(Edge.make_bspline(
                [(7.0166951045, 7.2174789384), (7.4551353354, 6.468842273), (7.8935756458, 5.7202055859), (8.0986041576, 4.7228783369)],
                knots=[0, 0, 0, 0, 0.2568105942, 0.2568105942, 0.2568105942, 0.2568105942], degree=3))
            add(Edge.make_bspline(
                [(5.09737432, 8.3675803617), (5.6442828481, 8.4181907516), (6.369925564, 7.8881083584), (7.0166951045, 7.2174789384)],
                knots=[0.3509792171, 0.3509792171, 0.3509792171, 0.3509792171, 0.4449683799, 0.4449683799, 0.4449683799, 0.4449683799], degree=3))
            add(Edge.make_bspline(
                [(5.09737432, 8.3675803617), (5.0382294946, 8.3548547711), (4.9790846696, 8.3421291819), (4.9200605163, 8.3289773014)],
                knots=[0, 0, 0, 0, 0.0219652467, 0.0219652467, 0.0219652467, 0.0219652467], degree=3))
            add(Edge.make_bspline(
                [(3.8956142962, 6.891802419), (4.1987079785, 7.6723908012), (4.5074935852, 8.1844561238), (4.9200605163, 8.3289773014)],
                knots=[0.2642959622, 0.2642959622, 0.2642959622, 0.2642959622, 0.340451225, 0.340451225, 0.340451225, 0.340451225], degree=3))
            add(Edge.make_bspline(
                [(3.8956142962, 6.891802419), (4.2213452753, 7.0869586014), (5.1237543979, 7.6276218222), (7.7497584624, 6.1743324677), (8.0986041576, 4.7228783369)],
                knots=[0, 0, 0, 0, 0.1605538932, 0.4448005452, 0.4448005452, 0.4448005452, 0.4448005452], degree=3))
        make_face()
    extrude(amount=F2_DEPTH)


solid = f1.part
